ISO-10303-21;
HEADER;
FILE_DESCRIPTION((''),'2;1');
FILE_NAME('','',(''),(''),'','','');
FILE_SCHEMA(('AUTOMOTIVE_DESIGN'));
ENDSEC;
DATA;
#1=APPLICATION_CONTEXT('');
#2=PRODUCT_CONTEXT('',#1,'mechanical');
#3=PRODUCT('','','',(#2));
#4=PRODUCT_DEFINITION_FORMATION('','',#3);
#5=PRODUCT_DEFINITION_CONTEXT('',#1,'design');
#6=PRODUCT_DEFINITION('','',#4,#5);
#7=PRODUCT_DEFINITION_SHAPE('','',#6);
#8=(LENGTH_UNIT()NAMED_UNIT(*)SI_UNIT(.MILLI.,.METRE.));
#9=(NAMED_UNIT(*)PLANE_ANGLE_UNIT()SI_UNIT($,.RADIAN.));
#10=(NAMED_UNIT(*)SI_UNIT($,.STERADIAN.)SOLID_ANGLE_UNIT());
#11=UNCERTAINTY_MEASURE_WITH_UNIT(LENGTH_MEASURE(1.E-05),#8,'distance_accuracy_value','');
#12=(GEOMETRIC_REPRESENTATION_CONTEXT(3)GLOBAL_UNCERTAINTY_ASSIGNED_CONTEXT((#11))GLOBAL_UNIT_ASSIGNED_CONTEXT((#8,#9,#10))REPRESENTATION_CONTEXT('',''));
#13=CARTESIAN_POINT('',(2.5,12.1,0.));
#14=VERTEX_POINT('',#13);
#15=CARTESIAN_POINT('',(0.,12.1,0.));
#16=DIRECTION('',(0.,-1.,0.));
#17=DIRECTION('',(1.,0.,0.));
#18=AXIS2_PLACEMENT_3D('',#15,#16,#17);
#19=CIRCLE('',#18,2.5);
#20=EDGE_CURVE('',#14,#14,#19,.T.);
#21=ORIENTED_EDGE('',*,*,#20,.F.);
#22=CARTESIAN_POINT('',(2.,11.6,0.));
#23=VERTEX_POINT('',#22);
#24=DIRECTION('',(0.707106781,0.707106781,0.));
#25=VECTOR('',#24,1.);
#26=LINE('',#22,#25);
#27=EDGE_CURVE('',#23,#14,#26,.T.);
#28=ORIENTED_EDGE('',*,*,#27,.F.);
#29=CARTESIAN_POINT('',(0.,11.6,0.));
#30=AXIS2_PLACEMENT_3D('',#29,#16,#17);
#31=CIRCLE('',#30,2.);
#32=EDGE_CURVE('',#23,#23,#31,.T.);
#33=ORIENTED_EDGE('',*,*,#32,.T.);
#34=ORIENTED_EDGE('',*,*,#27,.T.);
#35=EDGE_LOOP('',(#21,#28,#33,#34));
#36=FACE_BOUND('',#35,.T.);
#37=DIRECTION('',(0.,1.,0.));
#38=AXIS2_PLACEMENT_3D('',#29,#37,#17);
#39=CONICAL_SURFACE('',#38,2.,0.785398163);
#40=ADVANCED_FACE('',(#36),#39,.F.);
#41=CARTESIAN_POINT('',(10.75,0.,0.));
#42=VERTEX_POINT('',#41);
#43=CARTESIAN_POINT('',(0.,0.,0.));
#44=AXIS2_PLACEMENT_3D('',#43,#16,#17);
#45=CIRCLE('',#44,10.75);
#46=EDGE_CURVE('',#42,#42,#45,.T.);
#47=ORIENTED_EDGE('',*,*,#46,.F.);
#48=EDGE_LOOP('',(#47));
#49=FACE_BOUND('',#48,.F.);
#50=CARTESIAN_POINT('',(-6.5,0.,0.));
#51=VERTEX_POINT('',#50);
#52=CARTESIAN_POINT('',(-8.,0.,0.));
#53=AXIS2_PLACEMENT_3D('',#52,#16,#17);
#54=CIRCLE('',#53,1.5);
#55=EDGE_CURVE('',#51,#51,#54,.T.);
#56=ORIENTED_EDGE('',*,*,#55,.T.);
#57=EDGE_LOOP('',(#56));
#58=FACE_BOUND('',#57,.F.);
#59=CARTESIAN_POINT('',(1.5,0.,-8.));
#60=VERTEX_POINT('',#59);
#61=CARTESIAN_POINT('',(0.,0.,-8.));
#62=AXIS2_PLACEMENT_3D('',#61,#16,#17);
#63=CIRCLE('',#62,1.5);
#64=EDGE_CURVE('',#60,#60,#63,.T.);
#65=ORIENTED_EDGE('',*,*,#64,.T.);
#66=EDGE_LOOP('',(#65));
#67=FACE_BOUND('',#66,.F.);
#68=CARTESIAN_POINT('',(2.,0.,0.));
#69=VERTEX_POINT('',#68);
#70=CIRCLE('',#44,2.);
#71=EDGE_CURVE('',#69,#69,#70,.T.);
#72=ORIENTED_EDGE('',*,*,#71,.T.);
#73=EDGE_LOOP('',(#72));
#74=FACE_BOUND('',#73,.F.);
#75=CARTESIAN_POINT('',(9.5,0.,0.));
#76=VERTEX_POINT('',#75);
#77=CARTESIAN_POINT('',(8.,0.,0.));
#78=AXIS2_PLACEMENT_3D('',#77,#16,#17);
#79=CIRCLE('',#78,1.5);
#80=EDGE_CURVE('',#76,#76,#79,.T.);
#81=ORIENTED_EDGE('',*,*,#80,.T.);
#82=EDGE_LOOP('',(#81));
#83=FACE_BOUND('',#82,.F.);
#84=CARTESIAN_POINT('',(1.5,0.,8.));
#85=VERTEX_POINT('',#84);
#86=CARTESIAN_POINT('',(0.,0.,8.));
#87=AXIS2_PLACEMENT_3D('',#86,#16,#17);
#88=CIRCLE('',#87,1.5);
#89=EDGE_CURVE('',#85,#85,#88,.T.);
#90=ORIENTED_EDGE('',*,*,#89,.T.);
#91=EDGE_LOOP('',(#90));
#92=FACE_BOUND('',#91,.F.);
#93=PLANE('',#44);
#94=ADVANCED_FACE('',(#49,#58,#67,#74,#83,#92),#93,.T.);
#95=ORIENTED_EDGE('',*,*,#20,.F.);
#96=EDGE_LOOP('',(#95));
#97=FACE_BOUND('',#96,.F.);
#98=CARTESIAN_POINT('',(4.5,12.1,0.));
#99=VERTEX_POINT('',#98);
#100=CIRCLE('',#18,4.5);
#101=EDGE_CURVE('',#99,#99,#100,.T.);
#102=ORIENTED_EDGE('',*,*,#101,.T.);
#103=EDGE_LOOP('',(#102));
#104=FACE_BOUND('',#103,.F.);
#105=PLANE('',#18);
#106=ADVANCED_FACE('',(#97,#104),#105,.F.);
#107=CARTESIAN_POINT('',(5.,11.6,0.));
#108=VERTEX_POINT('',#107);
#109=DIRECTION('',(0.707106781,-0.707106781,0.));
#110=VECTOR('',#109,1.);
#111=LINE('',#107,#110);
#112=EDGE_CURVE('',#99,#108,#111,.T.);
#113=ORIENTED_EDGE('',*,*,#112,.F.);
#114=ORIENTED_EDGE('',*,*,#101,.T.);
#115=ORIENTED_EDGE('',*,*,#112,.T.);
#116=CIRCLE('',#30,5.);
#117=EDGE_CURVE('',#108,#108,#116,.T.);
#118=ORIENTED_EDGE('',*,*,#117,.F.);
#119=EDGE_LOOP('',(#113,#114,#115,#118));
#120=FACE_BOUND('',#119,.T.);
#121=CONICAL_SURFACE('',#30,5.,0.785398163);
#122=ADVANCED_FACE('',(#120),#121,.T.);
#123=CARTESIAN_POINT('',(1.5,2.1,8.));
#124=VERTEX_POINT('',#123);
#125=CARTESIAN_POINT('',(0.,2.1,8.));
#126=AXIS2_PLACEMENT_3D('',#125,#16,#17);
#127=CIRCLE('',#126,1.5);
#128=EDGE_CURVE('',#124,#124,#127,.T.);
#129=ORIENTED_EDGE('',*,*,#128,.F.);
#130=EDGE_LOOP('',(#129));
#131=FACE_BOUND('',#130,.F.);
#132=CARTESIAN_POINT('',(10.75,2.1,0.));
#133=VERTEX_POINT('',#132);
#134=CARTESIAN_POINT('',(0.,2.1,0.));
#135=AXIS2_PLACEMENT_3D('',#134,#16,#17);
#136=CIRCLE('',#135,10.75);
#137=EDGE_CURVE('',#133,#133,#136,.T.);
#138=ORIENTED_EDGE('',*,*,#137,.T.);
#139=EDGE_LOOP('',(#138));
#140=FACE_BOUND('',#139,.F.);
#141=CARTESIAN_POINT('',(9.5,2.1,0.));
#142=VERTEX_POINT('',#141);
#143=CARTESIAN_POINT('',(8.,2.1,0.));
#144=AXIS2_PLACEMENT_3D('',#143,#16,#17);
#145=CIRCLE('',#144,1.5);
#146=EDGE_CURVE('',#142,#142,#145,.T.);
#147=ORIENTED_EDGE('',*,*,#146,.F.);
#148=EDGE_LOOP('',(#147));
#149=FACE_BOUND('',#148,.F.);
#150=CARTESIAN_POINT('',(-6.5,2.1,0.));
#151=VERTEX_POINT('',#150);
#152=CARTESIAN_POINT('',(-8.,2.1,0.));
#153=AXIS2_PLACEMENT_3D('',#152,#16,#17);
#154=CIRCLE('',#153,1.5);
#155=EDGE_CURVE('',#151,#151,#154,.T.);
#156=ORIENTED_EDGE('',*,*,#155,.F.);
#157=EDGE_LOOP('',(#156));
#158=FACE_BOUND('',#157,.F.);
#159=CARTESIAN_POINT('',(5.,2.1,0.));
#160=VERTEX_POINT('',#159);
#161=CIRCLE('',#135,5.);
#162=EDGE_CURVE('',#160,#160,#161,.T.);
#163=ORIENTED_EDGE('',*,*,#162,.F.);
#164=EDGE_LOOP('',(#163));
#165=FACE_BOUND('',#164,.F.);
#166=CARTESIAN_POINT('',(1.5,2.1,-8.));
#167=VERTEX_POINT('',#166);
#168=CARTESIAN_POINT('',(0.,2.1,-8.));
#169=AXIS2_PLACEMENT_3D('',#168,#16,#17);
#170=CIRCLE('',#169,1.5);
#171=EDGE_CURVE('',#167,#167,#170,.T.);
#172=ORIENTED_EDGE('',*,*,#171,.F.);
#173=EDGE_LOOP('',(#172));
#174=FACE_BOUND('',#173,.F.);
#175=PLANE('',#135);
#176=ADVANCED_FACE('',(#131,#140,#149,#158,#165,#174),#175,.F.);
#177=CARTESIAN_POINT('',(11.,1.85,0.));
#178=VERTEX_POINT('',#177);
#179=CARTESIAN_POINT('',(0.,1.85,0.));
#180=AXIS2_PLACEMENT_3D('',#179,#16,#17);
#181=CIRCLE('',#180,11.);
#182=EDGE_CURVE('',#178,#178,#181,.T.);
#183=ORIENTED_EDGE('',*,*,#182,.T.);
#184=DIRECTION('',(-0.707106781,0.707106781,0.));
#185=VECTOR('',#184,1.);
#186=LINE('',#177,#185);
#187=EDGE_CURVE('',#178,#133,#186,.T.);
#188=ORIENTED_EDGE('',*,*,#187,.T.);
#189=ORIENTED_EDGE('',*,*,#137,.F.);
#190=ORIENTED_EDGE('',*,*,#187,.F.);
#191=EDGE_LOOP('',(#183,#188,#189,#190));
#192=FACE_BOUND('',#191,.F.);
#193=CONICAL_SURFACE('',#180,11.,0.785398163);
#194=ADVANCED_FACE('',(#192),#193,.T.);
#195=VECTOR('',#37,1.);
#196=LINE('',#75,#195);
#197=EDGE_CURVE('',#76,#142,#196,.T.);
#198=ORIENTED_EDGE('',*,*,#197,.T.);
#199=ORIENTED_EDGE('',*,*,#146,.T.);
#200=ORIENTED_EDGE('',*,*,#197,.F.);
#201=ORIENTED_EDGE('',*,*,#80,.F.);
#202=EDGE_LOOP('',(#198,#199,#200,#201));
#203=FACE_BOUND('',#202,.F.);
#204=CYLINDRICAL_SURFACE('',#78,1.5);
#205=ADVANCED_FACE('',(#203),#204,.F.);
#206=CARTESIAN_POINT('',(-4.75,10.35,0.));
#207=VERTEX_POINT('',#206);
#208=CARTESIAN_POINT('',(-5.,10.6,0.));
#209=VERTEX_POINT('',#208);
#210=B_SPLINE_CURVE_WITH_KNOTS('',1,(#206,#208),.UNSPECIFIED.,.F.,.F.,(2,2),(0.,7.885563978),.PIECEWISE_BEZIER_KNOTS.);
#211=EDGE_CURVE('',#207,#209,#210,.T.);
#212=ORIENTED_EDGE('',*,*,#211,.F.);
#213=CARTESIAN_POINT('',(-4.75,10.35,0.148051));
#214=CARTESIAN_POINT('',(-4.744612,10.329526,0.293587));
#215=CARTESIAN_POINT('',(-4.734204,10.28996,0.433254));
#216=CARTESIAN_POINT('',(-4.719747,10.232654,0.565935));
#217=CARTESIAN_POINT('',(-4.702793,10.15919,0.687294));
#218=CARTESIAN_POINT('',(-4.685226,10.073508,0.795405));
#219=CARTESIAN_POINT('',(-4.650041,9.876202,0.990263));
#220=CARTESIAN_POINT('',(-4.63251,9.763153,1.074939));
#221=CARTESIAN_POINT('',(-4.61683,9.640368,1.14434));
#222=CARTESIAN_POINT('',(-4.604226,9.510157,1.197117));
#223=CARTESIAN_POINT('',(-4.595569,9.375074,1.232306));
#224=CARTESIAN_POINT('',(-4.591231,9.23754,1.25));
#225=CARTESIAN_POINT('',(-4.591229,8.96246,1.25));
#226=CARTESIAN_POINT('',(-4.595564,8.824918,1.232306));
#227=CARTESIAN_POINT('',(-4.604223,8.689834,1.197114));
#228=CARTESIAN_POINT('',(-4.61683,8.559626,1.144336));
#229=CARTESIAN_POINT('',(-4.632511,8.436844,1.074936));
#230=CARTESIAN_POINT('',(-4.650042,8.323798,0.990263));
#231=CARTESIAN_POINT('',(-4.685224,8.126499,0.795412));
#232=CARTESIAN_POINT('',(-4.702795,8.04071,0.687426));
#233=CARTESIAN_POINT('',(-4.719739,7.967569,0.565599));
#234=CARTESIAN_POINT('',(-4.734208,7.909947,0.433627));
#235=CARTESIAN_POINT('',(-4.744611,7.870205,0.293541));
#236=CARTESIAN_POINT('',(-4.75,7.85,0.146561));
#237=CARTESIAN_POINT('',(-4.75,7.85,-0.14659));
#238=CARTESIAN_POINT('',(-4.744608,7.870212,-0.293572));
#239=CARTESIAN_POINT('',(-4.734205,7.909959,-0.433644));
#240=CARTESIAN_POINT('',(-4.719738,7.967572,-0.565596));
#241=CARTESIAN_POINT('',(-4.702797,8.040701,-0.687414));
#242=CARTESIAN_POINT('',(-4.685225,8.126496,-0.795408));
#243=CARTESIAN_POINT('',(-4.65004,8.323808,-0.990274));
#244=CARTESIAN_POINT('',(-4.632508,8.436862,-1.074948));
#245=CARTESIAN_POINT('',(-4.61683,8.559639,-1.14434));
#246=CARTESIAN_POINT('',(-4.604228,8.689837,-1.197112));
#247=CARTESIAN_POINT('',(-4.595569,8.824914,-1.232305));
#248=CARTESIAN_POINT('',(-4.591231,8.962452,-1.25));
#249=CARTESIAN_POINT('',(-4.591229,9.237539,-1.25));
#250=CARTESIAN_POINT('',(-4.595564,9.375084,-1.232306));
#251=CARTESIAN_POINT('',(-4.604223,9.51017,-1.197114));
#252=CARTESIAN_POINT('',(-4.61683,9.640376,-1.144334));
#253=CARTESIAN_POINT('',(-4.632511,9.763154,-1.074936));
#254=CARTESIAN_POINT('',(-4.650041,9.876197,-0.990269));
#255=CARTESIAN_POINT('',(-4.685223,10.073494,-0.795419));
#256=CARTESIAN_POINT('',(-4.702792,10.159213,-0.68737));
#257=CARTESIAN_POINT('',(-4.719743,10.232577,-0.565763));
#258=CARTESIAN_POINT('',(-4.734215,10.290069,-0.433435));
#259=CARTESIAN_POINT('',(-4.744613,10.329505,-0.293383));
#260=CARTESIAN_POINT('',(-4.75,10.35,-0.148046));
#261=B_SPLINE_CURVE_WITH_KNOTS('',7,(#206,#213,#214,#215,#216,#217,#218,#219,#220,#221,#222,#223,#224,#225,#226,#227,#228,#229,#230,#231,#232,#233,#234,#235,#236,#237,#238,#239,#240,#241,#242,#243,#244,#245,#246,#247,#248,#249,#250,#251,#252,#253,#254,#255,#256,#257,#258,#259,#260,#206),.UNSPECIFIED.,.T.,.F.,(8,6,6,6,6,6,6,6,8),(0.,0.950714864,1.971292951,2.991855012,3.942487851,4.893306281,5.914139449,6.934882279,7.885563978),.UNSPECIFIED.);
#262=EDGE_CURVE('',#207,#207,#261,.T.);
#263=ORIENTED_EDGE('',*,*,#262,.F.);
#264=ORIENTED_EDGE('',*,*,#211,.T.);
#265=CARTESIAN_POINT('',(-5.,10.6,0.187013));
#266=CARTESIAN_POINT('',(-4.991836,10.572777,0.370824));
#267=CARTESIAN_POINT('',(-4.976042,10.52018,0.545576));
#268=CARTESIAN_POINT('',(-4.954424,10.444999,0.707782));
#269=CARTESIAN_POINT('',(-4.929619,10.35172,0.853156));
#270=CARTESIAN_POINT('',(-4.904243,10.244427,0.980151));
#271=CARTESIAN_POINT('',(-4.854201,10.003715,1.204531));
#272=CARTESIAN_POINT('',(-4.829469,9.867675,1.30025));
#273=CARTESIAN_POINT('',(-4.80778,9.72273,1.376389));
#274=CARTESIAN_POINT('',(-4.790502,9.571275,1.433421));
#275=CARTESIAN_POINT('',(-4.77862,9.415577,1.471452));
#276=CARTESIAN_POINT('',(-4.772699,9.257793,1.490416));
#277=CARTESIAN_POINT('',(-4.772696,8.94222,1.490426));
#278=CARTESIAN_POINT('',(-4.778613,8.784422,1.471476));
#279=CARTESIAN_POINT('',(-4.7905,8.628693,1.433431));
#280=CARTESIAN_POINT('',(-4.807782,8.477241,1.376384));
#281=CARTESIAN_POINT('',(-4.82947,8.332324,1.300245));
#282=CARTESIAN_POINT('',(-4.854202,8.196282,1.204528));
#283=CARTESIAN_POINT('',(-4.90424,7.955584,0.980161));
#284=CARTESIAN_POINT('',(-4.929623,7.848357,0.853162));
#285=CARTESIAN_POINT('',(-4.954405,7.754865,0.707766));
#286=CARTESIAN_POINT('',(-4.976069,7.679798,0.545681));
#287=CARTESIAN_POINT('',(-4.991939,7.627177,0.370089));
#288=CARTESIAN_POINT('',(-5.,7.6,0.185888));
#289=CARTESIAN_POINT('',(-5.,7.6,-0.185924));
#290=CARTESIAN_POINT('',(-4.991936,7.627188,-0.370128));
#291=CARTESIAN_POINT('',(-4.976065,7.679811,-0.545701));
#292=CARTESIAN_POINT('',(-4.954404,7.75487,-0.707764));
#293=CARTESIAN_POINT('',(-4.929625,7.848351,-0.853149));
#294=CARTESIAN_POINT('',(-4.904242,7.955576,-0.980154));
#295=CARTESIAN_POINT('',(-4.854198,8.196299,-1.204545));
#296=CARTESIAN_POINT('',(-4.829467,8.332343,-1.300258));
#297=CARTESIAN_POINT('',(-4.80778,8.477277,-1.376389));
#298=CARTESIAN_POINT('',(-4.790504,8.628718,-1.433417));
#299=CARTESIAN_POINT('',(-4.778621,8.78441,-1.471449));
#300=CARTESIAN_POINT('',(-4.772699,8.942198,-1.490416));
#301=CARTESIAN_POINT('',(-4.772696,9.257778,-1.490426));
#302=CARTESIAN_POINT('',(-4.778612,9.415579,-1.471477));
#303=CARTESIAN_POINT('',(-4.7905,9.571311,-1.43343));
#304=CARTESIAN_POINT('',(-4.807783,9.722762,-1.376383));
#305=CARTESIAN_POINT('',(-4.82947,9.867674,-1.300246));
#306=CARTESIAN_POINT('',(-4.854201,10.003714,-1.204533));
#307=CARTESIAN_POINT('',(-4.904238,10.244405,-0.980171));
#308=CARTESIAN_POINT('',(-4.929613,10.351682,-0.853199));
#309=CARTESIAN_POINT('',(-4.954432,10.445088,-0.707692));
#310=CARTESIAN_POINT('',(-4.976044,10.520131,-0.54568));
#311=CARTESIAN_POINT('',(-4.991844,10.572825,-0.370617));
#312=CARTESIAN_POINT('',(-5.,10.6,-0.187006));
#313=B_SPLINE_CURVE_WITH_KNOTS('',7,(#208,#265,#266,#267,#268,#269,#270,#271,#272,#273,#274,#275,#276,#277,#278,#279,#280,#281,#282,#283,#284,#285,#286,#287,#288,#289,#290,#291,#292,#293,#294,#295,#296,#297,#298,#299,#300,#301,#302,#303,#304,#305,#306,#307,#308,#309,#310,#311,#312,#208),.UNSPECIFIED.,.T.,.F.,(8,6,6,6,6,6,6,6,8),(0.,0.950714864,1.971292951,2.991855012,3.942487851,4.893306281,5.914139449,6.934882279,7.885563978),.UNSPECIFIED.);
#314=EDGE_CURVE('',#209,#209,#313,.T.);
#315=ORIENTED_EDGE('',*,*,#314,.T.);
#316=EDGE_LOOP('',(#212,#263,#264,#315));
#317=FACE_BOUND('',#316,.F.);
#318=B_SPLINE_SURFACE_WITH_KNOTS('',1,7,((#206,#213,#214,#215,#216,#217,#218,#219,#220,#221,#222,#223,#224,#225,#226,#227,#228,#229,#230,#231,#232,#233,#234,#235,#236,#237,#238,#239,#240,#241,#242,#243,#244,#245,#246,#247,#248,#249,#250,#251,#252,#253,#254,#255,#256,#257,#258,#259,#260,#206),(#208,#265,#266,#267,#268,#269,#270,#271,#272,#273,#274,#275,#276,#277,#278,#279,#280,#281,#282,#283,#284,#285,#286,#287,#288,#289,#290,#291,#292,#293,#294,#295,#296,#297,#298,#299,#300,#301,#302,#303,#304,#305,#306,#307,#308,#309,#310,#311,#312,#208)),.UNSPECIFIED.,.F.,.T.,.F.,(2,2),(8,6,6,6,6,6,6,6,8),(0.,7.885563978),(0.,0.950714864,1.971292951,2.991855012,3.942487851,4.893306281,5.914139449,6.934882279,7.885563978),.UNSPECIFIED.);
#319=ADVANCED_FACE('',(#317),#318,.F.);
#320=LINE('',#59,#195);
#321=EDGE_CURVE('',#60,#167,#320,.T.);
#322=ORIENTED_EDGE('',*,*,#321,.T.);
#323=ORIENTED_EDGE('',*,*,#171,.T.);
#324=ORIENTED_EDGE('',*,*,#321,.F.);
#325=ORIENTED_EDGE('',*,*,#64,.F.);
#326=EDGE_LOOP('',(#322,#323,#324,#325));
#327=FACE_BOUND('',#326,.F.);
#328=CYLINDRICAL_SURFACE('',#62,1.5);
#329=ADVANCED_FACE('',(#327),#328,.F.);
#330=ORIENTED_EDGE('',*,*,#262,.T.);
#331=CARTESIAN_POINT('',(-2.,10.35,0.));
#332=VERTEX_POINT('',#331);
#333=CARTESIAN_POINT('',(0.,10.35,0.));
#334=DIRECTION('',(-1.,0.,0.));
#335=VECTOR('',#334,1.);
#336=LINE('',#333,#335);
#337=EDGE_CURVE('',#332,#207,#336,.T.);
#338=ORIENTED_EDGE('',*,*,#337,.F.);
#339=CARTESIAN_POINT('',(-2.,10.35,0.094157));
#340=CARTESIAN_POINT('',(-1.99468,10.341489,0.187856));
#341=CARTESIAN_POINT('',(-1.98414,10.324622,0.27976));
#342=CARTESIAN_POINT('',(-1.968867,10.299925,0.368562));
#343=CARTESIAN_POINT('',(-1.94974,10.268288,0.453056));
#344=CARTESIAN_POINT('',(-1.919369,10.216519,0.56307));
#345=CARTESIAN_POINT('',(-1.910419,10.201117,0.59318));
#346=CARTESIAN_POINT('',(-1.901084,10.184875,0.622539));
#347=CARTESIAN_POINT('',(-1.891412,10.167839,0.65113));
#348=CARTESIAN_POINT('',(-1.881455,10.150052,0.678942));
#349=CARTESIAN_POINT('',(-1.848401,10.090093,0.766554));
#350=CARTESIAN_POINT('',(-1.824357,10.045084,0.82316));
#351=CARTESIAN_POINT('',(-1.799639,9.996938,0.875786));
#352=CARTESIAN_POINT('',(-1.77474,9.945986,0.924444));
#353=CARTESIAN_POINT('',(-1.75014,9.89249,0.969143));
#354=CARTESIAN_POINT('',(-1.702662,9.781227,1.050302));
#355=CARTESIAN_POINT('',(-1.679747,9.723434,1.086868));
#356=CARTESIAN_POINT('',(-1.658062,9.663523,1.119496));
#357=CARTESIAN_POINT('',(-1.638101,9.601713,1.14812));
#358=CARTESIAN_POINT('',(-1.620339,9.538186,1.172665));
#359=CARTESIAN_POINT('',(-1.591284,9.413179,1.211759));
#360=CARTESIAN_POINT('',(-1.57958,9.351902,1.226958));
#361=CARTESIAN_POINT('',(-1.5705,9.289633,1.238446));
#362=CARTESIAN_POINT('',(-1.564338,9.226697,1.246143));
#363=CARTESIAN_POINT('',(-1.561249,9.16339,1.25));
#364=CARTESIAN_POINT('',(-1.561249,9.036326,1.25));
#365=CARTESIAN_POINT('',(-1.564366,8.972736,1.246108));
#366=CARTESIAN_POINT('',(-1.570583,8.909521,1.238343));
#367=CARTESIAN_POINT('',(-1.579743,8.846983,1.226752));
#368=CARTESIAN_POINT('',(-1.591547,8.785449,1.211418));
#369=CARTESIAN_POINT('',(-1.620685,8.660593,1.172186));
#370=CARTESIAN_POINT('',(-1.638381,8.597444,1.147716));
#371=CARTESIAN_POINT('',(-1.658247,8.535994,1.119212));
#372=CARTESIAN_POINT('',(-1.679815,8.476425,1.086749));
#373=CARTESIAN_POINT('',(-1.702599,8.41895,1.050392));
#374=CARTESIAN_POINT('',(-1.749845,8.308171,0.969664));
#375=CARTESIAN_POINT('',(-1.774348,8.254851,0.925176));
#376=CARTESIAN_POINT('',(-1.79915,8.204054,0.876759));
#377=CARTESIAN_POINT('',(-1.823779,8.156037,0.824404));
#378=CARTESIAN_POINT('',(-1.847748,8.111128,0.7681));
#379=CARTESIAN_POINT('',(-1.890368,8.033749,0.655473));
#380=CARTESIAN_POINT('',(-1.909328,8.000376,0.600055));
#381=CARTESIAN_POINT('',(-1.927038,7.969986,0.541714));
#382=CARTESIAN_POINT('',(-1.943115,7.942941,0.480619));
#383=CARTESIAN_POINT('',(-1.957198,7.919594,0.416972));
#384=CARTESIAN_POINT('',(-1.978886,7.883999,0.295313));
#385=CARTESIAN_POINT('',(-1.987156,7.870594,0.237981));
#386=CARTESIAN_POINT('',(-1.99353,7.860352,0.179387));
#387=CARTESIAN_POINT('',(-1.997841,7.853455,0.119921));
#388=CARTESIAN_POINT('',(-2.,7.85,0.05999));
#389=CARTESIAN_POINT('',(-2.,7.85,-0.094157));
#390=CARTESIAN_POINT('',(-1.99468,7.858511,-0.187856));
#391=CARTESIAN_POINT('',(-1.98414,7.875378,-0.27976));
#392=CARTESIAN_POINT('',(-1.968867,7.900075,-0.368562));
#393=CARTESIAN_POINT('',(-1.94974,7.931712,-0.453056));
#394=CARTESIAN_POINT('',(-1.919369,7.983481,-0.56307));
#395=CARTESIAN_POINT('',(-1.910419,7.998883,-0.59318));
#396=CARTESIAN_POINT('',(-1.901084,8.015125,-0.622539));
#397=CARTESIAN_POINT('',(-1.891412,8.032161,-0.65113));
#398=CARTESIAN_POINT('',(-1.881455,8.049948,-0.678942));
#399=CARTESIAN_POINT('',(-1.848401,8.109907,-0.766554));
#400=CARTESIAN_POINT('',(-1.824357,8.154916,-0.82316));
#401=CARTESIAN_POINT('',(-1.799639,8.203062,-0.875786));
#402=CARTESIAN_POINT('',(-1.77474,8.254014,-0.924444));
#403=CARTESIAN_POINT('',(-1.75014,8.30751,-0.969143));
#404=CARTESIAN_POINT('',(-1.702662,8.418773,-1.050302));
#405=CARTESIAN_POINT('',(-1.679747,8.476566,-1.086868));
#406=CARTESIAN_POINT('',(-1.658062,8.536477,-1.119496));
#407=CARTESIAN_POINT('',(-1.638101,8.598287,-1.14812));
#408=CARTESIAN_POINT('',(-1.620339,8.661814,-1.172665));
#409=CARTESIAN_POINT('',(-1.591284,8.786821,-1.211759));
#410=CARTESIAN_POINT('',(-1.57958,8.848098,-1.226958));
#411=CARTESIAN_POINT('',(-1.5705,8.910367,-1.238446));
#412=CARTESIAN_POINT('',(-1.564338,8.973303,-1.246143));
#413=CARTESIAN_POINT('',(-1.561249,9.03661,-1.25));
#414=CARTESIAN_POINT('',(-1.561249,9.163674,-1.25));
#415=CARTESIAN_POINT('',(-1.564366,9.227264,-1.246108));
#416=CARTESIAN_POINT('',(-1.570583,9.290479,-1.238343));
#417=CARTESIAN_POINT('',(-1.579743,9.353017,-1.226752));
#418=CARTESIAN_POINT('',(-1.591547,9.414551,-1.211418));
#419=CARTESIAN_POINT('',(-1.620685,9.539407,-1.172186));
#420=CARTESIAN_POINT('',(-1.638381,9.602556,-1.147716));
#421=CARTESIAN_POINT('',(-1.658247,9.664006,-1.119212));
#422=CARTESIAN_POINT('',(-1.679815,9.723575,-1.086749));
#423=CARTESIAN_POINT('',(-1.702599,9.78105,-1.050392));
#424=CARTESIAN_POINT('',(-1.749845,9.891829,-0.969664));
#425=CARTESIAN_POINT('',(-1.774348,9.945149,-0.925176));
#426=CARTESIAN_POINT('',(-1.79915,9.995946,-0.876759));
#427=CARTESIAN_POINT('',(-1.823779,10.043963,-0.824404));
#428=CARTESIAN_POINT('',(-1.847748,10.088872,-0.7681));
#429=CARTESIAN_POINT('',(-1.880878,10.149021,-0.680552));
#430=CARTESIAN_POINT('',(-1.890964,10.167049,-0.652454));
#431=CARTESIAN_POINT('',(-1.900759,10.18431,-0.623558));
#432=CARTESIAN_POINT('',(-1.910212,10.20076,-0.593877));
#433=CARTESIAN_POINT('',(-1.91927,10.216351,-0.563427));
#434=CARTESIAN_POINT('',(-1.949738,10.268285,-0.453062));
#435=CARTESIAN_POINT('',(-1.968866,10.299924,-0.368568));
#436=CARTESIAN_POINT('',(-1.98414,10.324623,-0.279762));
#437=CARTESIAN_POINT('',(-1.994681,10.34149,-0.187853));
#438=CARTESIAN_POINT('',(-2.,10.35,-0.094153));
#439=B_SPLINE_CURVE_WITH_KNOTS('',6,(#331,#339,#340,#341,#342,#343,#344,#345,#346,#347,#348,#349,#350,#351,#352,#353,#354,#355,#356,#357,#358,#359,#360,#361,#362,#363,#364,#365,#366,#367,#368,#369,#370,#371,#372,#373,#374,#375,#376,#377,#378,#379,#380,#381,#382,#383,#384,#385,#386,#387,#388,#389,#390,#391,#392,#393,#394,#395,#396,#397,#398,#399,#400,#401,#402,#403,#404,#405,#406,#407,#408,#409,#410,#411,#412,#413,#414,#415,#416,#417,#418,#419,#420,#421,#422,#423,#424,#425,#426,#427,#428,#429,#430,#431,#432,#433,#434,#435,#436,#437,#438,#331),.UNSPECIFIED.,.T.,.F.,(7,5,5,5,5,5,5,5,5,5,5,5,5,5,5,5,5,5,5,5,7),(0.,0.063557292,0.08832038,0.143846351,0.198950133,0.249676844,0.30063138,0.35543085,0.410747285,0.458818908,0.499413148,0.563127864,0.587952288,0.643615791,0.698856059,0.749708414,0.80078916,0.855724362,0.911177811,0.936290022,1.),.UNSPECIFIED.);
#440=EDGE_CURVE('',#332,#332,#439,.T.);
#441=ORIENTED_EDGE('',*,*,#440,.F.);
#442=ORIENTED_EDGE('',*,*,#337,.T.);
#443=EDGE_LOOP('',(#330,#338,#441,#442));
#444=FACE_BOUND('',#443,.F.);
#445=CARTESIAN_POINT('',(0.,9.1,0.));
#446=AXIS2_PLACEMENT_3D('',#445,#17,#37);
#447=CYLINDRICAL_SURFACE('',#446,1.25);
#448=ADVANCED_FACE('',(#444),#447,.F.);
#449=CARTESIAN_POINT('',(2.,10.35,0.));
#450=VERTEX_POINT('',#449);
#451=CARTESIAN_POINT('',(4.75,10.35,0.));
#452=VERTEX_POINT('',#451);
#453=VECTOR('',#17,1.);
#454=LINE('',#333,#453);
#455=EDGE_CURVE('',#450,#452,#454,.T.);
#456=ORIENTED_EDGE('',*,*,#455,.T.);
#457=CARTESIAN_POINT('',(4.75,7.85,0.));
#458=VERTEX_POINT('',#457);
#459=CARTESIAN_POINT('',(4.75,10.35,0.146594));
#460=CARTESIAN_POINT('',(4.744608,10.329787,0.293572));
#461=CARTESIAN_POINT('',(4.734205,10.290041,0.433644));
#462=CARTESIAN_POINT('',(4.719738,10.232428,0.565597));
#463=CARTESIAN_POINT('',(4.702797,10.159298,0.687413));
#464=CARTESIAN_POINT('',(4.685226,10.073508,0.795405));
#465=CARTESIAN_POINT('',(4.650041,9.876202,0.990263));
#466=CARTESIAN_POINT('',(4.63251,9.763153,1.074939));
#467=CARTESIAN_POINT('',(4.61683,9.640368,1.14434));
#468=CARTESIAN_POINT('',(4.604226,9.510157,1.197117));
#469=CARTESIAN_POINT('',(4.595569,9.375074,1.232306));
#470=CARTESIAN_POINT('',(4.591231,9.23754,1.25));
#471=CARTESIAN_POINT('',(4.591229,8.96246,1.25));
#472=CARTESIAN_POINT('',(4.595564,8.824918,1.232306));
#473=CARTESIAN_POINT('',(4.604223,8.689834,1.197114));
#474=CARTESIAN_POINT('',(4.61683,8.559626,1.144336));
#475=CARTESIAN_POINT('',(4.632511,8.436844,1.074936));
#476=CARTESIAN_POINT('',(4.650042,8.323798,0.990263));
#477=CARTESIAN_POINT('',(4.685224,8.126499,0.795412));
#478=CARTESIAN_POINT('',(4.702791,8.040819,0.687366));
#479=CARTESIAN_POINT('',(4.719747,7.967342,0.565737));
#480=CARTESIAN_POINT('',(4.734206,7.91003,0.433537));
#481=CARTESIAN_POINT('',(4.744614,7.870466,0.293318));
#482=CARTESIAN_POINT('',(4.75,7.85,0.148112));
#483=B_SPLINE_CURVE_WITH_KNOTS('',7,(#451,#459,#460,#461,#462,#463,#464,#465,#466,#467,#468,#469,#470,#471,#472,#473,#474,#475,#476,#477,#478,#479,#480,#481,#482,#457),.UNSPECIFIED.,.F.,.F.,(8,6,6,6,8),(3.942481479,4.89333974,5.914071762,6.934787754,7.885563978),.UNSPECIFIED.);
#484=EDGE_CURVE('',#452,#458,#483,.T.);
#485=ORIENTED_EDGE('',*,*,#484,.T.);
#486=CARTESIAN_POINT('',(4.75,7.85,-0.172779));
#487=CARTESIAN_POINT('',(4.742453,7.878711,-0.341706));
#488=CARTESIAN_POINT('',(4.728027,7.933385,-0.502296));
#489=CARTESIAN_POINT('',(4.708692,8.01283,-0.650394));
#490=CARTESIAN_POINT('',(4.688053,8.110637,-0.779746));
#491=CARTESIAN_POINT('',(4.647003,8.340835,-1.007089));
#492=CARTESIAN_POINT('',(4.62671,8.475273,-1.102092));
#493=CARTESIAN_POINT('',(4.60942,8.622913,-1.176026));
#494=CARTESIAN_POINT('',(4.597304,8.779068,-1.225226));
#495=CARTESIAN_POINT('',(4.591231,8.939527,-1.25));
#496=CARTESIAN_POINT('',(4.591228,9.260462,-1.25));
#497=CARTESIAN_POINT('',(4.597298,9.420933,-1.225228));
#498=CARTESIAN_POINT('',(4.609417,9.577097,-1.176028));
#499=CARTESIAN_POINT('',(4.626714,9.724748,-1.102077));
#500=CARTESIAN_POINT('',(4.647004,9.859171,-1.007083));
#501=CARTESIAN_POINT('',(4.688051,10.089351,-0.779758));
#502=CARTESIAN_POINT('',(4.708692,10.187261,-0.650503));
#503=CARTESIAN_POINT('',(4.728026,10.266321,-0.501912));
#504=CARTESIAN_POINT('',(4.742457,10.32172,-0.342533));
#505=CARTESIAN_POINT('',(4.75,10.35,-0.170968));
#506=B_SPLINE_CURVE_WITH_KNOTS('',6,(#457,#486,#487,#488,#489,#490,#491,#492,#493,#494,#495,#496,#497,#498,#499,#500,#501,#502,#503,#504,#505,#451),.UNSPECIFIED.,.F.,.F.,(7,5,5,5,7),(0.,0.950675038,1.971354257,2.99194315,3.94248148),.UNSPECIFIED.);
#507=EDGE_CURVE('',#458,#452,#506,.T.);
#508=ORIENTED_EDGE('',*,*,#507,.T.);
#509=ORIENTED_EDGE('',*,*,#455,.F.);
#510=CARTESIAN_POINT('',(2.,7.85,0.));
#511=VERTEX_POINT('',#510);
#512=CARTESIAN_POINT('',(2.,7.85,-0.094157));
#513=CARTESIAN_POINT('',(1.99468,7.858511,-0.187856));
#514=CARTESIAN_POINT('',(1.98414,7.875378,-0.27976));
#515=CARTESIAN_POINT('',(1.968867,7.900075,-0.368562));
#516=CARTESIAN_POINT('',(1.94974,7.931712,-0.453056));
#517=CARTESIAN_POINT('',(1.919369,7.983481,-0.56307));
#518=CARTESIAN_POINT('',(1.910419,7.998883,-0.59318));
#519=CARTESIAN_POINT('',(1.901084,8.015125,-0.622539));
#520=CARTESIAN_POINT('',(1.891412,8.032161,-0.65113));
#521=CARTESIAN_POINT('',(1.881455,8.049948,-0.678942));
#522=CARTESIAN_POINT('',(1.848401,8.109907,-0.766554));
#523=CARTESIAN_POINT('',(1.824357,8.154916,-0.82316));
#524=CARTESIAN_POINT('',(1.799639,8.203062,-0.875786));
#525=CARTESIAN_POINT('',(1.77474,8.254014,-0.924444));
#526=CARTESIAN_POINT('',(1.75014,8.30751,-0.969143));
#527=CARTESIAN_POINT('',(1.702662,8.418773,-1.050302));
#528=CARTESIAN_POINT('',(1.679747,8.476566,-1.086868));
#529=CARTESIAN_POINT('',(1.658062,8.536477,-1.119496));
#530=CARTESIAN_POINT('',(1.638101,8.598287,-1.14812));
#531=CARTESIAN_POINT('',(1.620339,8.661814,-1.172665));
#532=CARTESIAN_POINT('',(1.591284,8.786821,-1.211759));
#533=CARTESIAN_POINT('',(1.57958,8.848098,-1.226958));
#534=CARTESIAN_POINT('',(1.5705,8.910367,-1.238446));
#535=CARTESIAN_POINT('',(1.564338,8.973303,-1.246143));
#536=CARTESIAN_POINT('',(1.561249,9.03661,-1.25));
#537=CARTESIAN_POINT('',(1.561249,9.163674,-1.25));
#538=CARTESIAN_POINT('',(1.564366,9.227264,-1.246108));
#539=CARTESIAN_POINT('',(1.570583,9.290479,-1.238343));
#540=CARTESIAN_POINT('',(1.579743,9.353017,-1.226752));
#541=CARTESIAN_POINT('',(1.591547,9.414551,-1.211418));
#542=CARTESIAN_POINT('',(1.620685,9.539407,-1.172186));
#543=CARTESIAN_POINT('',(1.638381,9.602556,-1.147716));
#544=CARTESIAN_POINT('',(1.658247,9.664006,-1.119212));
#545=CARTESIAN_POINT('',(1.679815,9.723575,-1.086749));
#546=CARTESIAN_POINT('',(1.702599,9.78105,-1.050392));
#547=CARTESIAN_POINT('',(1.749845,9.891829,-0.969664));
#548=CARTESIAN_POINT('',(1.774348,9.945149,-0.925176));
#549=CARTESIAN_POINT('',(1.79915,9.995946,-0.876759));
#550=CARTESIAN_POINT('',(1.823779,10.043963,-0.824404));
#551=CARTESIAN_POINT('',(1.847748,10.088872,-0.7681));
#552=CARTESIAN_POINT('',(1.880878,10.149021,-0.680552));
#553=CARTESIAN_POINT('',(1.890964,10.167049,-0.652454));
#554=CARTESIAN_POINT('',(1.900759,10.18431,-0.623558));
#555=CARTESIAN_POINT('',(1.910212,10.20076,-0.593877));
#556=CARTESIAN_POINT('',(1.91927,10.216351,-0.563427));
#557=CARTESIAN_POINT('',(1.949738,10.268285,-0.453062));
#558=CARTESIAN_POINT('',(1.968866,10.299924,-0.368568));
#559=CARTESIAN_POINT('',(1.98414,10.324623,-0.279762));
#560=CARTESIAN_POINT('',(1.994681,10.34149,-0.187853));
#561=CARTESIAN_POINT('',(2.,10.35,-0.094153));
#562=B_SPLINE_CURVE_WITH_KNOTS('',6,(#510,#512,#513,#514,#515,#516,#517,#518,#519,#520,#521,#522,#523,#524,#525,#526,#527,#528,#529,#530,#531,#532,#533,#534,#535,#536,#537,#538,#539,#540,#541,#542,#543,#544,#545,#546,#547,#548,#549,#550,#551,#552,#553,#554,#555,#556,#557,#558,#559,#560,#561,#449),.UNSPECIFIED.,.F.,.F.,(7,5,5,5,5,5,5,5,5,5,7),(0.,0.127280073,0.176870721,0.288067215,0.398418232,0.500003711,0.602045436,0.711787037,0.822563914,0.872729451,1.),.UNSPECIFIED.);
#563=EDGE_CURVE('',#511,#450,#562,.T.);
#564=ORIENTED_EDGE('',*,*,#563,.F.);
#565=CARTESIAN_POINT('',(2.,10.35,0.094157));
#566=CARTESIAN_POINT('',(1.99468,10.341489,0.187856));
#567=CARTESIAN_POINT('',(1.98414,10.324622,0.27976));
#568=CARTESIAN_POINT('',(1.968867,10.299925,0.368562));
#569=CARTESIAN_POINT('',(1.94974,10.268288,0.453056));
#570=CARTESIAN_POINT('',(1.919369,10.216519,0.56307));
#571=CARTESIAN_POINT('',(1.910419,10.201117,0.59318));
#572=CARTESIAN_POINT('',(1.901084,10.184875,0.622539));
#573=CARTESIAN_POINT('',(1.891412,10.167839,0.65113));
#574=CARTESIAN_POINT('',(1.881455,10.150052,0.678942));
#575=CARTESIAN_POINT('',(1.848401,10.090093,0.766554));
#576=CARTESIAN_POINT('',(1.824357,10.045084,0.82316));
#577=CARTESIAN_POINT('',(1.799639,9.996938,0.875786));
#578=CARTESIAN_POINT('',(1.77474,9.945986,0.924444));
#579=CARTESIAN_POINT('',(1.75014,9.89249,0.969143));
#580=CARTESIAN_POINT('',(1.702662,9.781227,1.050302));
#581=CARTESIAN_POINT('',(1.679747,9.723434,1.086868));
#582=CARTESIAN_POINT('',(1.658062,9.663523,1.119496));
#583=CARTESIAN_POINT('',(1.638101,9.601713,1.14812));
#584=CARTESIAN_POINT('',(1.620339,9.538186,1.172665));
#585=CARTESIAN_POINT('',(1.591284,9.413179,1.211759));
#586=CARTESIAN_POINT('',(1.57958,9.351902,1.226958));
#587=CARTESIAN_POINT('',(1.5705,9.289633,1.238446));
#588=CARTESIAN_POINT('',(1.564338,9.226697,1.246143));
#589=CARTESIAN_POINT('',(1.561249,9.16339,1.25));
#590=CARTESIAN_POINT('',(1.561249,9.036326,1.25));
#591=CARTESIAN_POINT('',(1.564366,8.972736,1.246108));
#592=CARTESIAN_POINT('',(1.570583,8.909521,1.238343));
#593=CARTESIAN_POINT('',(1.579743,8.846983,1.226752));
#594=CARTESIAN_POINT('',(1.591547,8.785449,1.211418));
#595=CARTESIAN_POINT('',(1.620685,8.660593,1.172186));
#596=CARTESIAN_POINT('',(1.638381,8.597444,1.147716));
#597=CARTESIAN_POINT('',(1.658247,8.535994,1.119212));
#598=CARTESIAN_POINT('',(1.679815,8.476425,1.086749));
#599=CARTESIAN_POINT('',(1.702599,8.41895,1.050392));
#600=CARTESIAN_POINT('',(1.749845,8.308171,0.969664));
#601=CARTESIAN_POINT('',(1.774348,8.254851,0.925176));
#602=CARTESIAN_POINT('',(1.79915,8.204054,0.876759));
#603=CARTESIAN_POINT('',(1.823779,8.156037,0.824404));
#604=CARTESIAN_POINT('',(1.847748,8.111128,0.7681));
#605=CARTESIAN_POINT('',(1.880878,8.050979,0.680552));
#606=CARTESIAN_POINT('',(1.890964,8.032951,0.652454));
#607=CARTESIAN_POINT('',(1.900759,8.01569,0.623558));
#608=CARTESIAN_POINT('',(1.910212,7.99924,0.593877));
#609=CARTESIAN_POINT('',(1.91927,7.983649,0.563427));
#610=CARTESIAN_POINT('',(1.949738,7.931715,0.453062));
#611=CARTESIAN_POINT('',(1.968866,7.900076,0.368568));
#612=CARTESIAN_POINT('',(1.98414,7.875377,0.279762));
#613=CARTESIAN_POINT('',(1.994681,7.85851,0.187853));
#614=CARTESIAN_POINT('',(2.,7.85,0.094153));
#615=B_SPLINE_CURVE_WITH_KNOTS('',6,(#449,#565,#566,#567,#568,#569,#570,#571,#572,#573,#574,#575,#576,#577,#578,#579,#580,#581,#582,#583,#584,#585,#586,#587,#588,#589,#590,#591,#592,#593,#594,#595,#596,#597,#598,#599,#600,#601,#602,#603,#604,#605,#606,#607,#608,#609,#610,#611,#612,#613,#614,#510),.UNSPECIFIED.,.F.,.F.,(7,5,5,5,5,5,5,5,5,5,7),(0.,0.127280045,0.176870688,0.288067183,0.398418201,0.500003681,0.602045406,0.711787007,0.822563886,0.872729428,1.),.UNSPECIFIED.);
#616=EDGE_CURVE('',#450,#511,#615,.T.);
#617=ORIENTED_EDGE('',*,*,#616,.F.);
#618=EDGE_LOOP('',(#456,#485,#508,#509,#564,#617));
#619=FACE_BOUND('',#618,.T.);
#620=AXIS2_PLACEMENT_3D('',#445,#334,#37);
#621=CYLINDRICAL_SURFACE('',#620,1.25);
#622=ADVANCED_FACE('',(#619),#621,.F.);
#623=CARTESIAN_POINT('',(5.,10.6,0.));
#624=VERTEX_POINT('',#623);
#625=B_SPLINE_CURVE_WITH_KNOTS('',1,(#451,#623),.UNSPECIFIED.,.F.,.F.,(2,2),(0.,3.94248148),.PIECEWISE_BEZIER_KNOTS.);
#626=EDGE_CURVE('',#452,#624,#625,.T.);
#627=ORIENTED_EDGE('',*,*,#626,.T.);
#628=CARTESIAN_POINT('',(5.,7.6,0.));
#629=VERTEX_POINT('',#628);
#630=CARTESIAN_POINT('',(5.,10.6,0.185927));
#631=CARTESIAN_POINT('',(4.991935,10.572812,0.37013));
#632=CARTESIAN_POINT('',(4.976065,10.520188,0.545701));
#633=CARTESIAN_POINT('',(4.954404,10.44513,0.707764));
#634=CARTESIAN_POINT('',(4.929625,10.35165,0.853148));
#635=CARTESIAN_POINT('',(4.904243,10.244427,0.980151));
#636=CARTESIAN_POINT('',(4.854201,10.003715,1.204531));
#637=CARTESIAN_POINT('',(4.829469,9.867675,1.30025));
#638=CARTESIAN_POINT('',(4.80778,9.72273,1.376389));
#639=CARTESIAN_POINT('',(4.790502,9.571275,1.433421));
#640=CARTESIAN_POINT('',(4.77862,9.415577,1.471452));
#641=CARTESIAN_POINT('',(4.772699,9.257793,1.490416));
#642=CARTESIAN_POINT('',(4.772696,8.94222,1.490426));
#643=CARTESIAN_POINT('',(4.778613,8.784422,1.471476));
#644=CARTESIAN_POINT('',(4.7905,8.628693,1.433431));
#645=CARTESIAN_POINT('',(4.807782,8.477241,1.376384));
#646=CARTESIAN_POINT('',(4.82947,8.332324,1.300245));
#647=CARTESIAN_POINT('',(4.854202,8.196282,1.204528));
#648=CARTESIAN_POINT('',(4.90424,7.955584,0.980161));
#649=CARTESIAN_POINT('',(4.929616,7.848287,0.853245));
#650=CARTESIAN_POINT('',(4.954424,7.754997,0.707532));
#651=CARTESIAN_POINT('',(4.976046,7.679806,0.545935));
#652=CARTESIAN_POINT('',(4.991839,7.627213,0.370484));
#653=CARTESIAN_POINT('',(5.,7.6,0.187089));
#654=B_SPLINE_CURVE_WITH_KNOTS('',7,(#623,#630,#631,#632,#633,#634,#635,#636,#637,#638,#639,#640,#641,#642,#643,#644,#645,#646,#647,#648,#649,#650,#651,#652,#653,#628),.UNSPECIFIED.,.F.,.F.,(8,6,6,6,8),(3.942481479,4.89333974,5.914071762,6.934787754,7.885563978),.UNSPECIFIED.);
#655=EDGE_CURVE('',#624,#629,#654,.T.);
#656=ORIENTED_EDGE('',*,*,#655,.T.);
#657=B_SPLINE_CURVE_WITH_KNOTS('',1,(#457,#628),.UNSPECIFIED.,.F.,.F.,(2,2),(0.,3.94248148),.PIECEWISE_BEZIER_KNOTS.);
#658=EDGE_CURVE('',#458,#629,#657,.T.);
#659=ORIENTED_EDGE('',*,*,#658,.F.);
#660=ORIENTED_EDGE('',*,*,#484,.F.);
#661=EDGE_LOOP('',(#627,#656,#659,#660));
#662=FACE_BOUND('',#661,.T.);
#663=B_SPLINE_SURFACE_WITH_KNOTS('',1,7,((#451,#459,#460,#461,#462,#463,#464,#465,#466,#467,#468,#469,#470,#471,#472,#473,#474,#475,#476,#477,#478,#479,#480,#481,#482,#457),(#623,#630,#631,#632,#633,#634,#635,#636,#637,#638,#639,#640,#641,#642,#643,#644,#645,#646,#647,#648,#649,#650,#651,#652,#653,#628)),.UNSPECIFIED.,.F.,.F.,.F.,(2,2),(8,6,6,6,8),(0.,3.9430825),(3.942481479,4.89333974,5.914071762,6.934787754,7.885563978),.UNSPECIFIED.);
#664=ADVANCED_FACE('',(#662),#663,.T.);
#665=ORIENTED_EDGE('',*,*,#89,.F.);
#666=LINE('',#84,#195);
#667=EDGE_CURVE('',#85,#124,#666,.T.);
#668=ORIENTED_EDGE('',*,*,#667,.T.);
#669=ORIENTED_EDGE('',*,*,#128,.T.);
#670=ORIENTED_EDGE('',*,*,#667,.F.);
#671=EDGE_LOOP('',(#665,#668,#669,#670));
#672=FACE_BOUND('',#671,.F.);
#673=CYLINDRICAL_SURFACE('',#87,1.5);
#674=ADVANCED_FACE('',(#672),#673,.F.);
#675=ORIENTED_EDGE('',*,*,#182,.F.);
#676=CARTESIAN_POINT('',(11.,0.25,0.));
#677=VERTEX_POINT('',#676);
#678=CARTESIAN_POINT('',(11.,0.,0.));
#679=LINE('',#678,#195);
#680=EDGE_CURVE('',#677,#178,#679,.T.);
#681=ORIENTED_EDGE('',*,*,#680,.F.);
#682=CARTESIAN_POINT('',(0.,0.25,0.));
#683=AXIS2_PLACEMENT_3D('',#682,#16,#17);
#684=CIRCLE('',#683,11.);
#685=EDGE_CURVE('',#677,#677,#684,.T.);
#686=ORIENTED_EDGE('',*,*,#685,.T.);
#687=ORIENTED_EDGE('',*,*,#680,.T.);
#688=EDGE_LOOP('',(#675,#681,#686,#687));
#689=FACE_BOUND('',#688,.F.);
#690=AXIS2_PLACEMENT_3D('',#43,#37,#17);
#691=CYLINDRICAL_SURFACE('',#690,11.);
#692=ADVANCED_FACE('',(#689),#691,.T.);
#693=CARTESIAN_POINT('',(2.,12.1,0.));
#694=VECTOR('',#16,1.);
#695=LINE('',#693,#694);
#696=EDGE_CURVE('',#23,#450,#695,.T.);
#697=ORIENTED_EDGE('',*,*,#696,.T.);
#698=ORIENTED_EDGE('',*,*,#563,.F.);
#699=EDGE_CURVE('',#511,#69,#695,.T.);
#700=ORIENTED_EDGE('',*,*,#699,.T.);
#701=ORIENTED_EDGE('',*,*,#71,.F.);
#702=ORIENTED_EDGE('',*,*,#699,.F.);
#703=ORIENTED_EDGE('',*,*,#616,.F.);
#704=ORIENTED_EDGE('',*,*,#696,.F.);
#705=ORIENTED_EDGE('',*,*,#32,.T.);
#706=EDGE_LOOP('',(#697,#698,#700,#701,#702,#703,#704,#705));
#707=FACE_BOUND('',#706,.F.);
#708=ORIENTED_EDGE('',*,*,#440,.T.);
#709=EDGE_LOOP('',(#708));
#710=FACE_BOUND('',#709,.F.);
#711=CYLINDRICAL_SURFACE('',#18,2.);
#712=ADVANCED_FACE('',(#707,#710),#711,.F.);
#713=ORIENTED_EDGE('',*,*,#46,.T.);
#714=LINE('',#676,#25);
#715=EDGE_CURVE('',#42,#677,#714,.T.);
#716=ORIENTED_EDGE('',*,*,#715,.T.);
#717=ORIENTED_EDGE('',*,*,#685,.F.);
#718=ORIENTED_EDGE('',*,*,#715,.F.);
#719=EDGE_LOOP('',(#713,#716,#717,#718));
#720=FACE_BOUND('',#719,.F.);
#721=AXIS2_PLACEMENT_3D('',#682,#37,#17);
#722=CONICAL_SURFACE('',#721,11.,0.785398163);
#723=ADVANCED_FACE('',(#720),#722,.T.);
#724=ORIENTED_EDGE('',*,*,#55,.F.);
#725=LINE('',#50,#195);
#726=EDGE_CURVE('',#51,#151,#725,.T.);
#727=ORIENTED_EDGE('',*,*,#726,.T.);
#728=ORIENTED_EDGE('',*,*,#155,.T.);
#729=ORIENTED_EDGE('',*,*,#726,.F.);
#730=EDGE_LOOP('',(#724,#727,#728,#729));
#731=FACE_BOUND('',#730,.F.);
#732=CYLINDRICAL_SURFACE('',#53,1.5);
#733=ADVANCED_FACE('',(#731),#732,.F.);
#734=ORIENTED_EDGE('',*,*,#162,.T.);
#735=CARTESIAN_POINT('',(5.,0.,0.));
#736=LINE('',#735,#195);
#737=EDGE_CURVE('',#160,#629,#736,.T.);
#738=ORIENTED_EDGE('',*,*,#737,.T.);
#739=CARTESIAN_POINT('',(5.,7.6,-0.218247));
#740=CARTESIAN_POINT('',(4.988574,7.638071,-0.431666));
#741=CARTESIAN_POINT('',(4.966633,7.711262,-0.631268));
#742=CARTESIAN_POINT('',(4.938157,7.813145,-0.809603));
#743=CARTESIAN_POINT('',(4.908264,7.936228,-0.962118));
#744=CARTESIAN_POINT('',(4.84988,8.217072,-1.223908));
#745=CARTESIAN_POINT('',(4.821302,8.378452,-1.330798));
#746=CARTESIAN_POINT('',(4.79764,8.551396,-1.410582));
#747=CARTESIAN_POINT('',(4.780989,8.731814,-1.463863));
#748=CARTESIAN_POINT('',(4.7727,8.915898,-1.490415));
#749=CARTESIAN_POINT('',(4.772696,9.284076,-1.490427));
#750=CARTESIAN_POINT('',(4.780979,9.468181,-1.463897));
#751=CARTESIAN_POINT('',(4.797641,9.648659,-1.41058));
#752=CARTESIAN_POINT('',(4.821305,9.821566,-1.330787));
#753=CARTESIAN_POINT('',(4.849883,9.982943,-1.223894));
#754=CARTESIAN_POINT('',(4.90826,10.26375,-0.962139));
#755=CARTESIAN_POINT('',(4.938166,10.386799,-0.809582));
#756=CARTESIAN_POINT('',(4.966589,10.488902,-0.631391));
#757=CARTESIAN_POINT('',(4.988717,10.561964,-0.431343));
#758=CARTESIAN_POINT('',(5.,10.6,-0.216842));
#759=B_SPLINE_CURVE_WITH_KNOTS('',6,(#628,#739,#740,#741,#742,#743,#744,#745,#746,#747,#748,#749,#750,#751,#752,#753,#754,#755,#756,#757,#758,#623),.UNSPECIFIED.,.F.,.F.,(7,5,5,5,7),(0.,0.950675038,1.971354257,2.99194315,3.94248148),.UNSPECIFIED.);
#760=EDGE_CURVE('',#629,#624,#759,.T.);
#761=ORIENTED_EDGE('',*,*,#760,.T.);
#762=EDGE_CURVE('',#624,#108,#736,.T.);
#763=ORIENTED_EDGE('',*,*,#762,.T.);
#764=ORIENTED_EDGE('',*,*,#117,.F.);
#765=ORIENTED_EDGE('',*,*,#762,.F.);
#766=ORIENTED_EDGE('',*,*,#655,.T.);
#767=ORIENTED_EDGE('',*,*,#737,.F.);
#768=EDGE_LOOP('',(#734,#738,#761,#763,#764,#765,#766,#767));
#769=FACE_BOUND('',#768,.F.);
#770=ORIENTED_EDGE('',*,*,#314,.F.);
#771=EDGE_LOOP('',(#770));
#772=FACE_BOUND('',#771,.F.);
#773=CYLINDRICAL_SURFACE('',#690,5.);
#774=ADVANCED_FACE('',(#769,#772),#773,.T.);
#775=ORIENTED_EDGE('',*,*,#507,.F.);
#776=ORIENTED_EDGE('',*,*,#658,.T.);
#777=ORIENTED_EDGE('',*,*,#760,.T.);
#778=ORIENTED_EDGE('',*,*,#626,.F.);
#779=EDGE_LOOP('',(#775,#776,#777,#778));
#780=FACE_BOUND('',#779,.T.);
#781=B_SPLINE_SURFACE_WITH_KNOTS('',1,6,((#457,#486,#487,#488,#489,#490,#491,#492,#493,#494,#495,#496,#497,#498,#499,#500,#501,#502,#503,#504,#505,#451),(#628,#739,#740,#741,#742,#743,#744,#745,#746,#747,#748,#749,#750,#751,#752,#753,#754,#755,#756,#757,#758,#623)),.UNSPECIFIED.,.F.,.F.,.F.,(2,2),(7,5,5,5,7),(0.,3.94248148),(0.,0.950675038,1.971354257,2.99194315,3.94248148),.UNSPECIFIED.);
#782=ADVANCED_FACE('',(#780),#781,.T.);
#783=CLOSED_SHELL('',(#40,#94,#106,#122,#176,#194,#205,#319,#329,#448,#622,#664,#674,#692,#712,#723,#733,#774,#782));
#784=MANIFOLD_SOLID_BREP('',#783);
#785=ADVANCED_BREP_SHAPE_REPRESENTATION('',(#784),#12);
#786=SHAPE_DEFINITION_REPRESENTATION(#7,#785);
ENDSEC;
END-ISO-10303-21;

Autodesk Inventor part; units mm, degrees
ref_plane "YZ Plane" through (0, 0, 0) normal (1, 0, 0) x (0, 1, 0)
ref_plane "XZ Plane" through (0, 0, 0) normal (0, 1, 0) x (-1, 0, 0)
ref_plane "XY Plane" through (0, 0, 0) normal (0, 0, 1) x (1, 0, 0)
sketch "Sketch1" plane through (0, 0, 0) normal (0, 0, 1) x (1, 0, 0)
  line L0 (0, 0) -> (11, 0)
  line L1 (11, 0) -> (11, 2.1)
  line L2 (11, 2.1) -> (0, 2.1)
  line L3 (0, 2.1) -> (0, 0)
  line L4 (0, 0) -> (5, 0)
  line L5 (5, 0) -> (5, 12.1)
  line L6 (5, 12.1) -> (0, 12.1)
  line L7 (0, 12.1) -> (0, 0)
  line L8 (0, 12.1) -> (2, 12.1)
  line L9 (2, 12.1) -> (2, 0)
  line L10 (2, 0) -> (0, 0)
  line L11 (0, 0) -> (0, 12.1)
  point P0 (2, 0)
  point P1 (5, 2.1)
  dimension "d0" = 11
  dimension "d1" = 2.1
  dimension "d2" = 5
  dimension "d3" = 12.1
  dimension "d4" = 2
revolve "Revolution1" add sketch "Sketch1" angle 360 about axis through (0, 12.1, 0) along (0, -1, 0) contours L9 L2 L5 L0 | L5 L2 L1 L0 | L9 L6 L5 L2
sketch "Sketch2" plane through (0, 0, 0) normal (0, -1, 0) x (1, 0, 0)
  circle A0 centre (0, 0) radius 8 construction
  line L0 (0, 0) -> (8, 0) construction
  circle A1 centre (8, 0) radius 1.5
  circle A2 centre (0, 8) radius 1.5
  circle A3 centre (-8, 0) radius 1.5
  circle A4 centre (0, -8) radius 1.5
  dimension "d6" = 16
  dimension "d7" = 3
  dimension "d10" = 360
extrude "Extrusion1" cut sketch "Sketch2" against normal through all
sketch "Sketch3" plane through (0, 0, 0) normal (1, 0, 0) x (0, 1, 0)
  line L0 (12.1, 5) -> (12.1, -5) projected
  line L1 (12.1, 0) -> (0, 0) construction
  circle A0 centre (9.1, 0) radius 1.25
  dimension "d14" = 2.5
  dimension "d15" = 3
extrude "Extrusion2" cut sketch "Sketch3" along normal through all both and the other way through all
chamfer "Chamfer1" distance 0.5 angle 45 2 edges at (-5, 12.1, 0) (-2, 12.1, 0)
chamfer "Chamfer2" distance 0.25 angle 45 5 edges at (-11, 0, 0) (-11, 2.1, 0) (4.8412, 9.0999, -1.25) (4.8412, 9.1, 1.25) (-5, 7.85, -0.0003)
properties part number "Hubs - 4mm" material "Stainless Steel"
